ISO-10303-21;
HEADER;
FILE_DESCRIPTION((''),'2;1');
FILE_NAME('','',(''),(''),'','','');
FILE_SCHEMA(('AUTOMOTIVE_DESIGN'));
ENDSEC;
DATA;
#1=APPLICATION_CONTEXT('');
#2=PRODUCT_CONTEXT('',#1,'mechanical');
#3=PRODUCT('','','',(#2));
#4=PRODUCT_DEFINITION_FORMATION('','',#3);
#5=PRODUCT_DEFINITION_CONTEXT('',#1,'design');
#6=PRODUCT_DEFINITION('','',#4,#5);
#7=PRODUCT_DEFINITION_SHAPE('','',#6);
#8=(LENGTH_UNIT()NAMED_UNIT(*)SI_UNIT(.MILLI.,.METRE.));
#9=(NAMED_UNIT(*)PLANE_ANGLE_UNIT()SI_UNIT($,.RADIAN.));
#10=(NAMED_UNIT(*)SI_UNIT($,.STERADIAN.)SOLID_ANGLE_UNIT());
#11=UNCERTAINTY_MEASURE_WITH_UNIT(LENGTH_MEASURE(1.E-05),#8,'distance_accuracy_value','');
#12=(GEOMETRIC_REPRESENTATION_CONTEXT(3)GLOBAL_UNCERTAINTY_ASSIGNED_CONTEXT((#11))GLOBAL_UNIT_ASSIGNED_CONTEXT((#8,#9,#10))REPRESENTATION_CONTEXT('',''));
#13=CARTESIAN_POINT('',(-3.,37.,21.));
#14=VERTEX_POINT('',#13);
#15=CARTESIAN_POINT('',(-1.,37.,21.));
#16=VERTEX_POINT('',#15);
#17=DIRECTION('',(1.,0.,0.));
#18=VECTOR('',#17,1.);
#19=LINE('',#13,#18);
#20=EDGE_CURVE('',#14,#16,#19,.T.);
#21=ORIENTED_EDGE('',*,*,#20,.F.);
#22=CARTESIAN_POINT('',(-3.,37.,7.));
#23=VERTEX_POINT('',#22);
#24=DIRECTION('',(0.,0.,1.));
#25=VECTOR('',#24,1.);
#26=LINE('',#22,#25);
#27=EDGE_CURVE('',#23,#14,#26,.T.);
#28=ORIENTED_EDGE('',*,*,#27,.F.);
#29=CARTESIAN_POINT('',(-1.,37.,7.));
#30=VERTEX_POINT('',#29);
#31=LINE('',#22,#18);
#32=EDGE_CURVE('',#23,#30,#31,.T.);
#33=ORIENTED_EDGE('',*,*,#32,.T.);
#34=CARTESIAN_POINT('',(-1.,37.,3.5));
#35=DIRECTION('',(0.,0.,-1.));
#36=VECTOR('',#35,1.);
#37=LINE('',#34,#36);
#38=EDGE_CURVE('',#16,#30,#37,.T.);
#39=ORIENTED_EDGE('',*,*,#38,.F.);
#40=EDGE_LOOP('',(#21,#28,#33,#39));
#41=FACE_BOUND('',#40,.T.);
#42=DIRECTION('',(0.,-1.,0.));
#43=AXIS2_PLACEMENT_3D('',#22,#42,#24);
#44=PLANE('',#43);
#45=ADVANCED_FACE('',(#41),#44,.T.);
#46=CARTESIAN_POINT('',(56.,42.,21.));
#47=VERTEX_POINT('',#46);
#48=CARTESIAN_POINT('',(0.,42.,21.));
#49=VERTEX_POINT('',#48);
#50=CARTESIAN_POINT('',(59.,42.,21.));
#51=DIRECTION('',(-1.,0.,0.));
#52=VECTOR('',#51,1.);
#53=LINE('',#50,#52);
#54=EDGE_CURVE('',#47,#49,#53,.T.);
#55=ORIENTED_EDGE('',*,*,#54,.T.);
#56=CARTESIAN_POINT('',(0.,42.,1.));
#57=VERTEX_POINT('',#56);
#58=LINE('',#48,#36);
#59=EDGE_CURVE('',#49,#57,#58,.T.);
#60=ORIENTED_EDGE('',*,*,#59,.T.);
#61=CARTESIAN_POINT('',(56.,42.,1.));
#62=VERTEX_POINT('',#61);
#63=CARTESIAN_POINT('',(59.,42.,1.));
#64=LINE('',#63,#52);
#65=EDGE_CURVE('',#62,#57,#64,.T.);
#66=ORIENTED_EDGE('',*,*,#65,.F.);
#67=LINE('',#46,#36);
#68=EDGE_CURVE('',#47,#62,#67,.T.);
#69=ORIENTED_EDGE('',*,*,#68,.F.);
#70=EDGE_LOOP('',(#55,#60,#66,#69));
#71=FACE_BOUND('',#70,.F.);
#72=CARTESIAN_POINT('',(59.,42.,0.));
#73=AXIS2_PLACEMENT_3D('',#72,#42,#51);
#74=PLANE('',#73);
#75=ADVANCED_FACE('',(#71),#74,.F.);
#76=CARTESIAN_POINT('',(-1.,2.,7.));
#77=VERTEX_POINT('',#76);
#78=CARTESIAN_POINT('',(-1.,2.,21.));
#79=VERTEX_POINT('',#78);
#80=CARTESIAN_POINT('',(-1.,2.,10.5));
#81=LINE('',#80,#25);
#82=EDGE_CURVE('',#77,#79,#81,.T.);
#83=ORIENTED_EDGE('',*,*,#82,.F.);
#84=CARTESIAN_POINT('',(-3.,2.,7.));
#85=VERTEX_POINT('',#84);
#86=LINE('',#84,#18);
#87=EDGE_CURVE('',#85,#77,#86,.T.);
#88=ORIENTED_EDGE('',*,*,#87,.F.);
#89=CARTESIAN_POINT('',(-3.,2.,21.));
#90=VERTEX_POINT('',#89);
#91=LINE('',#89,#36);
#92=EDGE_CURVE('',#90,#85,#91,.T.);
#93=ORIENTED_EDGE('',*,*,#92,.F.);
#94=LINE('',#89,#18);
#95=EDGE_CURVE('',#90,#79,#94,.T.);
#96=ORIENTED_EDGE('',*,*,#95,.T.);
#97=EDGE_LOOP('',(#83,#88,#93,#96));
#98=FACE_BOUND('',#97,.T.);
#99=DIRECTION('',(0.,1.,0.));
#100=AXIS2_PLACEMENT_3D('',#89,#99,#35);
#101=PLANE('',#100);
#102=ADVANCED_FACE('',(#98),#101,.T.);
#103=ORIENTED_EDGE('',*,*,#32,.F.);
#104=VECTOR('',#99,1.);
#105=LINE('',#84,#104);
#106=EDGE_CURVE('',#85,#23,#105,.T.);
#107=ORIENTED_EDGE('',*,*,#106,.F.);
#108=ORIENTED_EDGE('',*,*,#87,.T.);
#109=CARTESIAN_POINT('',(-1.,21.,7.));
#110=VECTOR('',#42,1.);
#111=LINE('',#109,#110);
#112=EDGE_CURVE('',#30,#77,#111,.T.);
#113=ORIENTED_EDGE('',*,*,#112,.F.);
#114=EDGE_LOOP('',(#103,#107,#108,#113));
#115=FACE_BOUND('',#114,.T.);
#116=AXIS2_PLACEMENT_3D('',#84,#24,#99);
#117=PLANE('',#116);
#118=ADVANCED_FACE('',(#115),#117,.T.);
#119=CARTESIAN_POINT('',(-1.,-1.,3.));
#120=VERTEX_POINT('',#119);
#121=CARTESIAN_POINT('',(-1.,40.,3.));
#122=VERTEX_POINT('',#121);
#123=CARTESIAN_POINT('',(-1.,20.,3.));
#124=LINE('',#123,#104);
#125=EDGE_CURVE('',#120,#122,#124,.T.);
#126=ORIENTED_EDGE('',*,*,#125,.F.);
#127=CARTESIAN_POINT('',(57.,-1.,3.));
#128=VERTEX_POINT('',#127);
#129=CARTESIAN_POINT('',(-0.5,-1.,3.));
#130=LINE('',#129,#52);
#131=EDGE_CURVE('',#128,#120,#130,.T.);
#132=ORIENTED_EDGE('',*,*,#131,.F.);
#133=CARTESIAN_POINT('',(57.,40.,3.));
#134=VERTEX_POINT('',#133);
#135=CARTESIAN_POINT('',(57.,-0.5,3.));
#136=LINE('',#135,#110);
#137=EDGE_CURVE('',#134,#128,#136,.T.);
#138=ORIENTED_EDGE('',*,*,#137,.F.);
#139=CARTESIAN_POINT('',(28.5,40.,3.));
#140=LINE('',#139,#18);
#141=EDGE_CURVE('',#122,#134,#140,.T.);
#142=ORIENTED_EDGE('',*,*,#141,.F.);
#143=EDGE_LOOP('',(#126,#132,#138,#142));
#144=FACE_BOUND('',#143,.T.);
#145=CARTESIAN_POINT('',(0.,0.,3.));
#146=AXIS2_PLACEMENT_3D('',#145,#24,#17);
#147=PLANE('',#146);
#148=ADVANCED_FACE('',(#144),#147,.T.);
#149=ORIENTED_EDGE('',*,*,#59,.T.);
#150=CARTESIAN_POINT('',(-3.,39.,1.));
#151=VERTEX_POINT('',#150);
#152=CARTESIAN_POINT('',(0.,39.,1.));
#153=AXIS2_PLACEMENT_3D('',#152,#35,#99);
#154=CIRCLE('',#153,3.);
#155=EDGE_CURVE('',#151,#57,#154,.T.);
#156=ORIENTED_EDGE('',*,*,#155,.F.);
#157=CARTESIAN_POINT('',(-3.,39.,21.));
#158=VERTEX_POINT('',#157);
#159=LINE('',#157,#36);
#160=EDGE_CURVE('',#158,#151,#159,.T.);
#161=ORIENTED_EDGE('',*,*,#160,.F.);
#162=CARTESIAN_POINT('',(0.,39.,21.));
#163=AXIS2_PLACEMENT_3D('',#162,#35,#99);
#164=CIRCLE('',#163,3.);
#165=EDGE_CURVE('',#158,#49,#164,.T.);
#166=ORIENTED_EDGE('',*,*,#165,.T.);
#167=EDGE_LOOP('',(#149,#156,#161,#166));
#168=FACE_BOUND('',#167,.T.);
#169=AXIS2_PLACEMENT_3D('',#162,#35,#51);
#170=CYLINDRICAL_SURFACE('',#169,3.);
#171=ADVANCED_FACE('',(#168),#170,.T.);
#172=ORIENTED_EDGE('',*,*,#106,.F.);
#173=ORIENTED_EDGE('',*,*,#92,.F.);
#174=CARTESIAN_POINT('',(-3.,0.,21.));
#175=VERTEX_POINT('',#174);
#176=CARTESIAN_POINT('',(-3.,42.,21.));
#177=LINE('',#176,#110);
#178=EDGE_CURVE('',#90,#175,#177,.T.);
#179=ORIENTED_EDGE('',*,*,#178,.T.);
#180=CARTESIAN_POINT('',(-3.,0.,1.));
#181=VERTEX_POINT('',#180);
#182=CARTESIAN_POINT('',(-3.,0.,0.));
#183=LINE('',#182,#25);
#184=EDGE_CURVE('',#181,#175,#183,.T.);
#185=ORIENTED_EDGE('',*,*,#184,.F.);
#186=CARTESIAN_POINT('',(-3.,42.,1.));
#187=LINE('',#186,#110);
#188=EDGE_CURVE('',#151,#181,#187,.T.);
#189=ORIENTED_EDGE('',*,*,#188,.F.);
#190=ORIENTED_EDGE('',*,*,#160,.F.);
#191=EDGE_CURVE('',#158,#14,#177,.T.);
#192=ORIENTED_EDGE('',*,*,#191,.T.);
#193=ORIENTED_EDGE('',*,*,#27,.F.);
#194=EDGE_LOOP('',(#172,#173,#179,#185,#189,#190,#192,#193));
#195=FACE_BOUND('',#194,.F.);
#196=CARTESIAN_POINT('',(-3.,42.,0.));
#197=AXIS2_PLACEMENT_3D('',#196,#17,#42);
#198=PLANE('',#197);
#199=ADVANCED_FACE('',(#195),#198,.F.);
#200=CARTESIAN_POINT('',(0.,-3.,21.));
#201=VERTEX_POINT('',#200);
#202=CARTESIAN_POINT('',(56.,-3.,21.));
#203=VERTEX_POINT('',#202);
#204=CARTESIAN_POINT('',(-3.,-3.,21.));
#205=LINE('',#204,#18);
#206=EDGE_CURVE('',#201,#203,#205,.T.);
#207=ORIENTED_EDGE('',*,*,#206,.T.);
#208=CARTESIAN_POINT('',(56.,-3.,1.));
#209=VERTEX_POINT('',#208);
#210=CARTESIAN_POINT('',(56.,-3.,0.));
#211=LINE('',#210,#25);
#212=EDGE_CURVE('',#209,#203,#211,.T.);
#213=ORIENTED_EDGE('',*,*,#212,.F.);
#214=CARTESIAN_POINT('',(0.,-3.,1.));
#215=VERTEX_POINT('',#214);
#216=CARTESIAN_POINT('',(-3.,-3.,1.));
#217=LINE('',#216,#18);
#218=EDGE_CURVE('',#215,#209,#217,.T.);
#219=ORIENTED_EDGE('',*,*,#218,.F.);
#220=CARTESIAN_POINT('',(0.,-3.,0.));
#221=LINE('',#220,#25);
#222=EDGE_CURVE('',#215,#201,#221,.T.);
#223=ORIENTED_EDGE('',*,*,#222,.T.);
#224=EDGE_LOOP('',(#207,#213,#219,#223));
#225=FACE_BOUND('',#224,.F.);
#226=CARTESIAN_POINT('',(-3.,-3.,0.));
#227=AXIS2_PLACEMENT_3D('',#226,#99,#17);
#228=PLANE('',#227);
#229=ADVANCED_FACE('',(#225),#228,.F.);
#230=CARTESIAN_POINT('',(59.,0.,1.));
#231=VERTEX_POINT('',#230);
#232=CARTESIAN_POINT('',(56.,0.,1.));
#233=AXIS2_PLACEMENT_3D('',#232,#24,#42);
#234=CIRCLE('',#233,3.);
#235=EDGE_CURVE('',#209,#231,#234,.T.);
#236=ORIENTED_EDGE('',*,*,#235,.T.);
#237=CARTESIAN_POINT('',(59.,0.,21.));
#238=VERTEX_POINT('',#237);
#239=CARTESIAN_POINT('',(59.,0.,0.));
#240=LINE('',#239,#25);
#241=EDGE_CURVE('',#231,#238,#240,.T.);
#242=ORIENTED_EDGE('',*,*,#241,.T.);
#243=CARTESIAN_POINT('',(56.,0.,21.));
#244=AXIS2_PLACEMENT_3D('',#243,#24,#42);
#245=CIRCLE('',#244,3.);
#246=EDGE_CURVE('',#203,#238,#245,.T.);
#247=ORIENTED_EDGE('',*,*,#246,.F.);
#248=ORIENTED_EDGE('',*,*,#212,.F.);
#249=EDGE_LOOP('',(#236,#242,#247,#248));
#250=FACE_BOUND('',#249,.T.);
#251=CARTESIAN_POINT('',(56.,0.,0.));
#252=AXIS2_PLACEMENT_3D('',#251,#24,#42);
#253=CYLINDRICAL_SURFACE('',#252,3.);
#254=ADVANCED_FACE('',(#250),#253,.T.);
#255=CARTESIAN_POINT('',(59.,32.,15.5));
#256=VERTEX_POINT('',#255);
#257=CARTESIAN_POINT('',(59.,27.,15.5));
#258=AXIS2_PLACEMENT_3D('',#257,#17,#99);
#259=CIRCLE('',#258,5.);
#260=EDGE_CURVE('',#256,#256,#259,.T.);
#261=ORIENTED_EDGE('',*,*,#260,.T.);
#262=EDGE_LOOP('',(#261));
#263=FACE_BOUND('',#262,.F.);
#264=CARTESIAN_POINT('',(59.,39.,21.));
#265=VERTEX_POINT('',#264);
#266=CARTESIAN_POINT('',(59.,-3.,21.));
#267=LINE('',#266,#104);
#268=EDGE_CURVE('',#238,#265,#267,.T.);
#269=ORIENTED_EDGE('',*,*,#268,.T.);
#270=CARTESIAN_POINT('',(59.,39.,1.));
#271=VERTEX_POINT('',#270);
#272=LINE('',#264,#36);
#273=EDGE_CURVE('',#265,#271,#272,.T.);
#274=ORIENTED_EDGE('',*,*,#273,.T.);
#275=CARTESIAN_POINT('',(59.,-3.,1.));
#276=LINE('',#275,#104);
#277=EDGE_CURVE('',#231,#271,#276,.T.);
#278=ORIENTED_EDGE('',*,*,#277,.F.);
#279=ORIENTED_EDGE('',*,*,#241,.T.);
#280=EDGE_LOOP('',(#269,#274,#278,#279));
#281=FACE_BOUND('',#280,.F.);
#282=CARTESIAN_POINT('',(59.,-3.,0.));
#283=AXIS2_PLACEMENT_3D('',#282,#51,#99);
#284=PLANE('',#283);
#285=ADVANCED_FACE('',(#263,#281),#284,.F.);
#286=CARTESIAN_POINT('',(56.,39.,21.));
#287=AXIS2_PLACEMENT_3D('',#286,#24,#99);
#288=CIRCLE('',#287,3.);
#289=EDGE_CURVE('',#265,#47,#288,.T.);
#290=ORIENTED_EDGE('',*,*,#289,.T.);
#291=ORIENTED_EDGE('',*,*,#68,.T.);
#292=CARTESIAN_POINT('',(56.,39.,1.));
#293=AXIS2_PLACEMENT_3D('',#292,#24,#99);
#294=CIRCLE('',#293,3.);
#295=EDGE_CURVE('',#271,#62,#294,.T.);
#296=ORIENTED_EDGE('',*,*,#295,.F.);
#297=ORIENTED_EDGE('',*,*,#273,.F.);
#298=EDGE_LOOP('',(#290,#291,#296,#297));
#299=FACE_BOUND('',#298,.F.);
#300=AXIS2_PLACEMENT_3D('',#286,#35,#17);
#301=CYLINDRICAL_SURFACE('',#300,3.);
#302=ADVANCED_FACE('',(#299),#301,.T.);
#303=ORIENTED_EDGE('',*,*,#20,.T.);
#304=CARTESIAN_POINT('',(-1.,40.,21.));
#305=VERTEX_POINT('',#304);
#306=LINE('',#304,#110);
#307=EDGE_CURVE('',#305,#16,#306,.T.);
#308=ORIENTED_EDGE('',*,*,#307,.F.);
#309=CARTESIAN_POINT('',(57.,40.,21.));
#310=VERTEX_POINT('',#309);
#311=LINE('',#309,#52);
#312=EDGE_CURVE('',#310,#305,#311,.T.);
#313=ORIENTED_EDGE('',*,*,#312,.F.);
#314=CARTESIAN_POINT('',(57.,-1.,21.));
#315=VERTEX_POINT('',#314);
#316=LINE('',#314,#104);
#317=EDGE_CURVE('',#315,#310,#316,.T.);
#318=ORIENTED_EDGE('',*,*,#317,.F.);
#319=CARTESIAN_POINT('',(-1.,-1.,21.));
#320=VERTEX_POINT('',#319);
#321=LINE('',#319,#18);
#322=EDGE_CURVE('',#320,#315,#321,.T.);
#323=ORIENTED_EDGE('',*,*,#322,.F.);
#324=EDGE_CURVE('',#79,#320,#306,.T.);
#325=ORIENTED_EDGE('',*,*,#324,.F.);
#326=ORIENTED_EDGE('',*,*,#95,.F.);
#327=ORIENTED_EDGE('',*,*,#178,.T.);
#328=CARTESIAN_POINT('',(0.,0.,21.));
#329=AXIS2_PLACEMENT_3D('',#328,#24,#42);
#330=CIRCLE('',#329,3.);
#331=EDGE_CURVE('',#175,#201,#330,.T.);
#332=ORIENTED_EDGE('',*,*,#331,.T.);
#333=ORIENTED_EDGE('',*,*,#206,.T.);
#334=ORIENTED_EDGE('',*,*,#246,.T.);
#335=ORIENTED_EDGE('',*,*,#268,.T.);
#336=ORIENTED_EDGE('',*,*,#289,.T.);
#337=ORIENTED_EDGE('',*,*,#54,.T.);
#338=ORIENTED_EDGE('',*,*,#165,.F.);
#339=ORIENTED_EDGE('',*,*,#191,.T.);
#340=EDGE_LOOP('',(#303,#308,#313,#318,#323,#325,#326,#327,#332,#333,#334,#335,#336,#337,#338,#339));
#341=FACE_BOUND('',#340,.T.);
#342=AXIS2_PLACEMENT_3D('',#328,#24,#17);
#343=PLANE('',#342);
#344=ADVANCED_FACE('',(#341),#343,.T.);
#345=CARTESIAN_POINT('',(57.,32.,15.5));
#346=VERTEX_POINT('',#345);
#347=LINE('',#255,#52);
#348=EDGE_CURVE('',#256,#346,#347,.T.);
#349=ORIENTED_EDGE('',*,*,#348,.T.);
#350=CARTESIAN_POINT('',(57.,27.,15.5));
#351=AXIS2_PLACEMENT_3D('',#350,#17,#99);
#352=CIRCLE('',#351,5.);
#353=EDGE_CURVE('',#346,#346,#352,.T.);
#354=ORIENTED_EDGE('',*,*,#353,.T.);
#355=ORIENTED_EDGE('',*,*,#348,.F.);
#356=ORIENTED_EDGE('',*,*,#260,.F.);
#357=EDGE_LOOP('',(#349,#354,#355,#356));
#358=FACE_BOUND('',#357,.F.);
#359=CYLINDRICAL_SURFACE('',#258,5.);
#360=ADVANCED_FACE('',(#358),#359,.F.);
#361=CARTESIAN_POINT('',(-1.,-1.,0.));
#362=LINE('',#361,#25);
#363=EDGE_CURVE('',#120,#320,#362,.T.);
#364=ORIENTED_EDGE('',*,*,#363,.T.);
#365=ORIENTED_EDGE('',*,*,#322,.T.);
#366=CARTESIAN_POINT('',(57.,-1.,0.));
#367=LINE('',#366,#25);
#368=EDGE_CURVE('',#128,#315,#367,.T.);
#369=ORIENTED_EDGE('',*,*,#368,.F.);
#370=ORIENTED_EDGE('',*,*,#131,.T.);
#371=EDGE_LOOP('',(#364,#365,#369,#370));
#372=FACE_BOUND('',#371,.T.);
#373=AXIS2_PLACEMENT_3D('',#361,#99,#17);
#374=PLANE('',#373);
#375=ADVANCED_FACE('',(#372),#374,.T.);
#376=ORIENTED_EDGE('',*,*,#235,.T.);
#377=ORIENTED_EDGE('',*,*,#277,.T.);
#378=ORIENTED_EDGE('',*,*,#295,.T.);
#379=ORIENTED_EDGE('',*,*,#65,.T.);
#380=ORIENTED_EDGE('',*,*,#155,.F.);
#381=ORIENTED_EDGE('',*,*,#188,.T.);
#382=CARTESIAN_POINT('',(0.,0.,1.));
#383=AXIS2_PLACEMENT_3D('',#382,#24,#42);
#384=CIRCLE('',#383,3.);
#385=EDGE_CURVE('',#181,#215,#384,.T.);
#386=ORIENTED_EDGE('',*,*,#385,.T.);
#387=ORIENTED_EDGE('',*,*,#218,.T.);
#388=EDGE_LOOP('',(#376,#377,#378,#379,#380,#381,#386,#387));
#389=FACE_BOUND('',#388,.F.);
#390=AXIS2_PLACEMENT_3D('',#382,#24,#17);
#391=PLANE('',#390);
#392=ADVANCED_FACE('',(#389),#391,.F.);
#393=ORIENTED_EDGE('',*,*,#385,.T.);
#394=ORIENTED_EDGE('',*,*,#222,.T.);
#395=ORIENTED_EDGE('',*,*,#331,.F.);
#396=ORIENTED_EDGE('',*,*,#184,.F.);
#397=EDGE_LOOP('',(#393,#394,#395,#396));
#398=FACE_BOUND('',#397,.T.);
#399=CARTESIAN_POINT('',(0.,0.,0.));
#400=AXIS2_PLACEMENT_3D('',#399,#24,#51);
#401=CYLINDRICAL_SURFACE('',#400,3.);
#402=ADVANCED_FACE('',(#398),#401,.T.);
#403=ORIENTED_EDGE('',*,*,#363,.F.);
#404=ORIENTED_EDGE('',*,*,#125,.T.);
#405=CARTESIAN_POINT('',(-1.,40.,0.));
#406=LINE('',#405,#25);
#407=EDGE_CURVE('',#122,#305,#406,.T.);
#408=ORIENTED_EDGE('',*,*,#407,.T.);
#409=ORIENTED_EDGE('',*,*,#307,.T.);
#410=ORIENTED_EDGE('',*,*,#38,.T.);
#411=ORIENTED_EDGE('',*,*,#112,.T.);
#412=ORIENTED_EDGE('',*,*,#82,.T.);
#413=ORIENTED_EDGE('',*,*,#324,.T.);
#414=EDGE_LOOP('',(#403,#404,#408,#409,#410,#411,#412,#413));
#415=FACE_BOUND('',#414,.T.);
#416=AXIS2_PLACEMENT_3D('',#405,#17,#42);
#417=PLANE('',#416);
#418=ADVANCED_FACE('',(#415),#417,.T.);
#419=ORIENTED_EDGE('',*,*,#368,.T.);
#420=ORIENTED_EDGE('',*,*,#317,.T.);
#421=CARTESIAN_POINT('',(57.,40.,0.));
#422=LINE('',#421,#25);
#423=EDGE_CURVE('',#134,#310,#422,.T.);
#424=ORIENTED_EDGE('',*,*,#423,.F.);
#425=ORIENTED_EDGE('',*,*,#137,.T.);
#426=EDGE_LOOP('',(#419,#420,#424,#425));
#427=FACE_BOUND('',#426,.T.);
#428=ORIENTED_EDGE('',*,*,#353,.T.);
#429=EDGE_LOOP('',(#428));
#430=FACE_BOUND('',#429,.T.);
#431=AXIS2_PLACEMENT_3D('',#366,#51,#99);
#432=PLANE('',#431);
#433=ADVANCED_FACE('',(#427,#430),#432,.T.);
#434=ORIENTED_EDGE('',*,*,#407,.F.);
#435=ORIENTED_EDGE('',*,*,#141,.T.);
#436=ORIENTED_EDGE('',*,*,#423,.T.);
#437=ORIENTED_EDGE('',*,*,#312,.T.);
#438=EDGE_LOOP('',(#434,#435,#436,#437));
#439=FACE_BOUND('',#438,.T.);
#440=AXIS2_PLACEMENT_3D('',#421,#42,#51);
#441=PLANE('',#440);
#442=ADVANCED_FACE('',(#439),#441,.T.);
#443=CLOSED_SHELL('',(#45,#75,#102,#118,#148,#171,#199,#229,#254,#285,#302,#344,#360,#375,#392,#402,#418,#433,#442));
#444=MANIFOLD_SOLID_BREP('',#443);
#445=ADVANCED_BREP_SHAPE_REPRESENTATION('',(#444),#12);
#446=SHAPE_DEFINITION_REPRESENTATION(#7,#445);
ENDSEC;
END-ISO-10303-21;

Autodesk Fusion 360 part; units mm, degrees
sketch "Sketch1" plane through (0, 0, 0) normal (0, 0, 1) x (1, 0, 0)
  line L0 (-1, -1) -> (57, -1)
  line L1 (57, -1) -> (57, 40)
  line L2 (57, 40) -> (-1, 40)
  line L3 (-1, 40) -> (-1, -1)
  line L4 (-3, -3) -> (59, -3)
  line L5 (59, -3) -> (59, 42)
  line L6 (59, 42) -> (-3, 42)
  line L7 (-3, 42) -> (-3, -3)
extrude "Extrude1" add sketch "Sketch1" along normal blind 3 contours L0 L1 L2 L3 | L4 L5 L6 L7
extrude "Extrude2" add sketch "Sketch1" along normal blind 21
sketch "Sketch2" plane through (59, 0, 0) normal (1, 0, 0) x (0, 1, 0)
  line L0 (-3, 0) -> (42, 0)
  line L1 (42, 0) -> (42, 21)
  line L2 (42, 21) -> (-3, 21)
  line L3 (-3, 21) -> (-3, 0)
  line L4 (42, 0) -> (42, 15.5) construction
  line L5 (42, 15.5) -> (27, 15.5) construction
  circle A0 centre (27, 15.5) radius 5
  dimension "d11" = 15
extrude "Extrude3" cut sketch "Sketch2" against normal blind 3 contours A0
sketch "Sketch3" plane through (-3, 0, 0) normal (-1, 0, 0) x (0, -1, 0)
  line L0 (-42, 0) -> (3, 0)
  line L1 (3, 0) -> (3, 21)
  line L2 (3, 21) -> (-42, 21)
  line L3 (-42, 21) -> (-42, 0)
  line L4 (-37, 7) -> (-37, 21)
  line L5 (-37, 21) -> (-2, 21)
  line L6 (-2, 21) -> (-2, 7)
  line L7 (-2, 7) -> (-37, 7)
extrude "Extrude4" cut sketch "Sketch3" against normal blind 3 contours L2 L4 L5 L6 L7
fillet "Fillet1" radius 3 4 edges at (59, -3, 10.5) (59, 42, 10.5) (-3, 42, 10.5) (-3, -3, 10.5)
sketch "Sketch4" plane through (0, 0, 3) normal (0, 0, 1) x (-1, 0, 0)
  line L0 (1, 1) -> (-57, 1)
  line L1 (-57, 1) -> (-57, -40)
  line L2 (-57, -40) -> (1, -40)
  line L3 (1, -40) -> (1, 1)
  point P0 (-29.8405, -19.6761)
extrude "Extrude5" cut 1 faces at (37.3333, 12, 0) along direction (0, 0, 1) blind 1
sketch "Sketch5" plane through (0, 0, 3) normal (0, 0, 1) x (-1, 0, 0)
  line L0 (-8.2346, 0) -> (-7.3686, -1.5)
  line L1 (-7.3686, -1.5) -> (-5.0592, -1.5)
  line L2 (-5.0592, -1.5) -> (-4.1932, 0)
  line L3 (-0.7291, 0) -> (-3.0385, 0)
  line L4 (-3.0385, 0) -> (-4.1932, -2)
  line L5 (-4.1932, -2) -> (-3.0385, -4)
  line L6 (-3.0385, -4) -> (-0.7291, -4)
  line L7 (-0.7291, -4) -> (0, -2.7372)
  line L8 (0, -1.2628) -> (-0.7291, 0)
  line L9 (-16.8949, 0) -> (-16.0289, -1.5)
  line L10 (-16.0289, -1.5) -> (-13.7195, -1.5)
  line L11 (-13.7195, -1.5) -> (-12.8534, 0)
  line L12 (-9.3893, 0) -> (-11.6987, 0)
  line L13 (-11.6987, 0) -> (-12.8534, -2)
  line L14 (-12.8534, -2) -> (-11.6987, -4)
  line L15 (-11.6987, -4) -> (-9.3893, -4)
  line L16 (-9.3893, -4) -> (-8.2346, -2)
  line L17 (-8.2346, -2) -> (-9.3893, 0)
  line L18 (-5.0592, -2.5) -> (-7.3686, -2.5)
  line L19 (-7.3686, -2.5) -> (-8.5233, -4.5)
  line L20 (-8.5233, -4.5) -> (-7.3686, -6.5)
  line L21 (-7.3686, -6.5) -> (-5.0592, -6.5)
  line L22 (-5.0592, -6.5) -> (-3.9045, -4.5)
  line L23 (-3.9045, -4.5) -> (-5.0592, -2.5)
  line L24 (-0.7291, -5) -> (-3.0385, -5)
  line L25 (-3.0385, -5) -> (-4.1932, -7)
  line L26 (-4.1932, -7) -> (-3.0385, -9)
  line L27 (-3.0385, -9) -> (-0.7291, -9)
  line L28 (-0.7291, -9) -> (0, -7.7372)
  line L29 (0, -6.2628) -> (-0.7291, -5)
  line L30 (-25.5551, 0) -> (-24.6891, -1.5)
  line L31 (-24.6891, -1.5) -> (-22.3797, -1.5)
  line L32 (-22.3797, -1.5) -> (-21.5137, 0)
  line L33 (-18.0496, 0) -> (-20.359, 0)
  line L34 (-20.359, 0) -> (-21.5137, -2)
  line L35 (-21.5137, -2) -> (-20.359, -4)
  line L36 (-20.359, -4) -> (-18.0496, -4)
  line L37 (-18.0496, -4) -> (-16.8949, -2)
  line L38 (-16.8949, -2) -> (-18.0496, 0)
  line L39 (-13.7195, -2.5) -> (-16.0289, -2.5)
  line L40 (-16.0289, -2.5) -> (-17.1836, -4.5)
  line L41 (-17.1836, -4.5) -> (-16.0289, -6.5)
  line L42 (-16.0289, -6.5) -> (-13.7195, -6.5)
  line L43 (-13.7195, -6.5) -> (-12.5648, -4.5)
  line L44 (-12.5648, -4.5) -> (-13.7195, -2.5)
  line L45 (-9.3893, -5) -> (-11.6987, -5)
  line L46 (-11.6987, -5) -> (-12.8534, -7)
  line L47 (-12.8534, -7) -> (-11.6987, -9)
  line L48 (-11.6987, -9) -> (-9.3893, -9)
  line L49 (-9.3893, -9) -> (-8.2346, -7)
  line L50 (-8.2346, -7) -> (-9.3893, -5)
  line L51 (-5.0592, -7.5) -> (-7.3686, -7.5)
  line L52 (-7.3686, -7.5) -> (-8.5233, -9.5)
  line L53 (-8.5233, -9.5) -> (-7.3686, -11.5)
  line L54 (-7.3686, -11.5) -> (-5.0592, -11.5)
  line L55 (-5.0592, -11.5) -> (-3.9045, -9.5)
  line L56 (-3.9045, -9.5) -> (-5.0592, -7.5)
  line L57 (-0.7291, -10) -> (-3.0385, -10)
  line L58 (-3.0385, -10) -> (-4.1932, -12)
  line L59 (-4.1932, -12) -> (-3.0385, -14)
  line L60 (-3.0385, -14) -> (-0.7291, -14)
  line L61 (-0.7291, -14) -> (0, -12.7372)
  line L62 (0, -11.2628) -> (-0.7291, -10)
  line L63 (-34.2154, 0) -> (-33.3494, -1.5)
  line L64 (-33.3494, -1.5) -> (-31.04, -1.5)
  line L65 (-31.04, -1.5) -> (-30.1739, 0)
  line L66 (-26.7098, 0) -> (-29.0192, 0)
  line L67 (-29.0192, 0) -> (-30.1739, -2)
  line L68 (-30.1739, -2) -> (-29.0192, -4)
  line L69 (-29.0192, -4) -> (-26.7098, -4)
  line L70 (-26.7098, -4) -> (-25.5551, -2)
  line L71 (-25.5551, -2) -> (-26.7098, 0)
  line L72 (-22.3797, -2.5) -> (-24.6891, -2.5)
  line L73 (-24.6891, -2.5) -> (-25.8438, -4.5)
  line L74 (-25.8438, -4.5) -> (-24.6891, -6.5)
  line L75 (-24.6891, -6.5) -> (-22.3797, -6.5)
  line L76 (-22.3797, -6.5) -> (-21.225, -4.5)
  line L77 (-21.225, -4.5) -> (-22.3797, -2.5)
  line L78 (-18.0496, -5) -> (-20.359, -5)
  line L79 (-20.359, -5) -> (-21.5137, -7)
  line L80 (-21.5137, -7) -> (-20.359, -9)
  line L81 (-20.359, -9) -> (-18.0496, -9)
  line L82 (-18.0496, -9) -> (-16.8949, -7)
  line L83 (-16.8949, -7) -> (-18.0496, -5)
  line L84 (-13.7195, -7.5) -> (-16.0289, -7.5)
  line L85 (-16.0289, -7.5) -> (-17.1836, -9.5)
  line L86 (-17.1836, -9.5) -> (-16.0289, -11.5)
  line L87 (-16.0289, -11.5) -> (-13.7195, -11.5)
  line L88 (-13.7195, -11.5) -> (-12.5648, -9.5)
  line L89 (-12.5648, -9.5) -> (-13.7195, -7.5)
  line L90 (-9.3893, -10) -> (-11.6987, -10)
  line L91 (-11.6987, -10) -> (-12.8534, -12)
  line L92 (-12.8534, -12) -> (-11.6987, -14)
  line L93 (-11.6987, -14) -> (-9.3893, -14)
  line L94 (-9.3893, -14) -> (-8.2346, -12)
  line L95 (-8.2346, -12) -> (-9.3893, -10)
  line L96 (-5.0592, -12.5) -> (-7.3686, -12.5)
  line L97 (-7.3686, -12.5) -> (-8.5233, -14.5)
  line L98 (-8.5233, -14.5) -> (-7.3686, -16.5)
  line L99 (-7.3686, -16.5) -> (-5.0592, -16.5)
  line L100 (-5.0592, -16.5) -> (-3.9045, -14.5)
  line L101 (-3.9045, -14.5) -> (-5.0592, -12.5)
  line L102 (-0.7291, -15) -> (-3.0385, -15)
  line L103 (-3.0385, -15) -> (-4.1932, -17)
  line L104 (-4.1932, -17) -> (-3.0385, -19)
  line L105 (-3.0385, -19) -> (-0.7291, -19)
  line L106 (-0.7291, -19) -> (0, -17.7372)
  line L107 (0, -16.2628) -> (-0.7291, -15)
  line L108 (-42.8756, 0) -> (-42.0096, -1.5)
  line L109 (-42.0096, -1.5) -> (-39.7002, -1.5)
  line L110 (-39.7002, -1.5) -> (-38.8342, 0)
  line L111 (-35.3701, 0) -> (-37.6795, 0)
  line L112 (-37.6795, 0) -> (-38.8342, -2)
  line L113 (-38.8342, -2) -> (-37.6795, -4)
  line L114 (-37.6795, -4) -> (-35.3701, -4)
  line L115 (-35.3701, -4) -> (-34.2154, -2)
  line L116 (-34.2154, -2) -> (-35.3701, 0)
  line L117 (-31.04, -2.5) -> (-33.3494, -2.5)
  line L118 (-33.3494, -2.5) -> (-34.5041, -4.5)
  line L119 (-34.5041, -4.5) -> (-33.3494, -6.5)
  line L120 (-33.3494, -6.5) -> (-31.04, -6.5)
  line L121 (-31.04, -6.5) -> (-29.8853, -4.5)
  line L122 (-29.8853, -4.5) -> (-31.04, -2.5)
  line L123 (-26.7098, -5) -> (-29.0192, -5)
  line L124 (-29.0192, -5) -> (-30.1739, -7)
  line L125 (-30.1739, -7) -> (-29.0192, -9)
  line L126 (-29.0192, -9) -> (-26.7098, -9)
  line L127 (-26.7098, -9) -> (-25.5551, -7)
  line L128 (-25.5551, -7) -> (-26.7098, -5)
  line L129 (-22.3797, -7.5) -> (-24.6891, -7.5)
  line L130 (-24.6891, -7.5) -> (-25.8438, -9.5)
  line L131 (-25.8438, -9.5) -> (-24.6891, -11.5)
  line L132 (-24.6891, -11.5) -> (-22.3797, -11.5)
  line L133 (-22.3797, -11.5) -> (-21.225, -9.5)
  line L134 (-21.225, -9.5) -> (-22.3797, -7.5)
  line L135 (-18.0496, -10) -> (-20.359, -10)
  line L136 (-20.359, -10) -> (-21.5137, -12)
  line L137 (-21.5137, -12) -> (-20.359, -14)
  line L138 (-20.359, -14) -> (-18.0496, -14)
  line L139 (-18.0496, -14) -> (-16.8949, -12)
  line L140 (-16.8949, -12) -> (-18.0496, -10)
  line L141 (-13.7195, -12.5) -> (-16.0289, -12.5)
  line L142 (-16.0289, -12.5) -> (-17.1836, -14.5)
  line L143 (-17.1836, -14.5) -> (-16.0289, -16.5)
  line L144 (-16.0289, -16.5) -> (-13.7195, -16.5)
  line L145 (-13.7195, -16.5) -> (-12.5648, -14.5)
  line L146 (-12.5648, -14.5) -> (-13.7195, -12.5)
  line L147 (-9.3893, -15) -> (-11.6987, -15)
  line L148 (-11.6987, -15) -> (-12.8534, -17)
  line L149 (-12.8534, -17) -> (-11.6987, -19)
  line L150 (-11.6987, -19) -> (-9.3893, -19)
  line L151 (-9.3893, -19) -> (-8.2346, -17)
  line L152 (-8.2346, -17) -> (-9.3893, -15)
  line L153 (-5.0592, -17.5) -> (-7.3686, -17.5)
  line L154 (-7.3686, -17.5) -> (-8.5233, -19.5)
  line L155 (-8.5233, -19.5) -> (-7.3686, -21.5)
  line L156 (-7.3686, -21.5) -> (-5.0592, -21.5)
  line L157 (-5.0592, -21.5) -> (-3.9045, -19.5)
  line L158 (-3.9045, -19.5) -> (-5.0592, -17.5)
  line L159 (-0.7291, -20) -> (-3.0385, -20)
  line L160 (-3.0385, -20) -> (-4.1932, -22)
  line L161 (-4.1932, -22) -> (-3.0385, -24)
  line L162 (-3.0385, -24) -> (-0.7291, -24)
  line L163 (-0.7291, -24) -> (0, -22.7372)
  line L164 (0, -21.2628) -> (-0.7291, -20)
  line L165 (-51.5359, 0) -> (-50.6699, -1.5)
  line L166 (-50.6699, -1.5) -> (-48.3605, -1.5)
  line L167 (-48.3605, -1.5) -> (-47.4944, 0)
  line L168 (-44.0303, 0) -> (-46.3397, 0)
  line L169 (-46.3397, 0) -> (-47.4944, -2)
  line L170 (-47.4944, -2) -> (-46.3397, -4)
  line L171 (-46.3397, -4) -> (-44.0303, -4)
  line L172 (-44.0303, -4) -> (-42.8756, -2)
  line L173 (-42.8756, -2) -> (-44.0303, 0)
  line L174 (-39.7002, -2.5) -> (-42.0096, -2.5)
  line L175 (-42.0096, -2.5) -> (-43.1643, -4.5)
  line L176 (-43.1643, -4.5) -> (-42.0096, -6.5)
  line L177 (-42.0096, -6.5) -> (-39.7002, -6.5)
  line L178 (-39.7002, -6.5) -> (-38.5455, -4.5)
  line L179 (-38.5455, -4.5) -> (-39.7002, -2.5)
  line L180 (-35.3701, -5) -> (-37.6795, -5)
  line L181 (-37.6795, -5) -> (-38.8342, -7)
  line L182 (-38.8342, -7) -> (-37.6795, -9)
  line L183 (-37.6795, -9) -> (-35.3701, -9)
  line L184 (-35.3701, -9) -> (-34.2154, -7)
  line L185 (-34.2154, -7) -> (-35.3701, -5)
  line L186 (-31.04, -7.5) -> (-33.3494, -7.5)
  line L187 (-33.3494, -7.5) -> (-34.5041, -9.5)
  line L188 (-34.5041, -9.5) -> (-33.3494, -11.5)
  line L189 (-33.3494, -11.5) -> (-31.04, -11.5)
  line L190 (-31.04, -11.5) -> (-29.8853, -9.5)
  line L191 (-29.8853, -9.5) -> (-31.04, -7.5)
  line L192 (-26.7098, -10) -> (-29.0192, -10)
  line L193 (-29.0192, -10) -> (-30.1739, -12)
  line L194 (-30.1739, -12) -> (-29.0192, -14)
  line L195 (-29.0192, -14) -> (-26.7098, -14)
  line L196 (-26.7098, -14) -> (-25.5551, -12)
  line L197 (-25.5551, -12) -> (-26.7098, -10)
  line L198 (-22.3797, -12.5) -> (-24.6891, -12.5)
  line L199 (-24.6891, -12.5) -> (-25.8438, -14.5)
  line L200 (-25.8438, -14.5) -> (-24.6891, -16.5)
  line L201 (-24.6891, -16.5) -> (-22.3797, -16.5)
  line L202 (-22.3797, -16.5) -> (-21.225, -14.5)
  line L203 (-21.225, -14.5) -> (-22.3797, -12.5)
  line L204 (-18.0496, -15) -> (-20.359, -15)
  line L205 (-20.359, -15) -> (-21.5137, -17)
  line L206 (-21.5137, -17) -> (-20.359, -19)
  line L207 (-20.359, -19) -> (-18.0496, -19)
  line L208 (-18.0496, -19) -> (-16.8949, -17)
  line L209 (-16.8949, -17) -> (-18.0496, -15)
  line L210 (-13.7195, -17.5) -> (-16.0289, -17.5)
  line L211 (-16.0289, -17.5) -> (-17.1836, -19.5)
  line L212 (-17.1836, -19.5) -> (-16.0289, -21.5)
  line L213 (-16.0289, -21.5) -> (-13.7195, -21.5)
  line L214 (-13.7195, -21.5) -> (-12.5648, -19.5)
  line L215 (-12.5648, -19.5) -> (-13.7195, -17.5)
  line L216 (-9.3893, -20) -> (-11.6987, -20)
  line L217 (-11.6987, -20) -> (-12.8534, -22)
  line L218 (-12.8534, -22) -> (-11.6987, -24)
  line L219 (-11.6987, -24) -> (-9.3893, -24)
  line L220 (-9.3893, -24) -> (-8.2346, -22)
  line L221 (-8.2346, -22) -> (-9.3893, -20)
  line L222 (-5.0592, -22.5) -> (-7.3686, -22.5)
  line L223 (-7.3686, -22.5) -> (-8.5233, -24.5)
  line L224 (-8.5233, -24.5) -> (-7.3686, -26.5)
  line L225 (-7.3686, -26.5) -> (-5.0592, -26.5)
  line L226 (-5.0592, -26.5) -> (-3.9045, -24.5)
  line L227 (-3.9045, -24.5) -> (-5.0592, -22.5)
  line L228 (-0.7291, -25) -> (-3.0385, -25)
  line L229 (-3.0385, -25) -> (-4.1932, -27)
  line L230 (-4.1932, -27) -> (-3.0385, -29)
  line L231 (-3.0385, -29) -> (-0.7291, -29)
  line L232 (-0.7291, -29) -> (0, -27.7372)
  line L233 (0, -26.2628) -> (-0.7291, -25)
  line L234 (-52.6906, 0) -> (-55, 0)
  line L235 (-55, 0) -> (-56, -1.7321)
  line L236 (-56, -2.2679) -> (-55, -4)
  line L237 (-55, -4) -> (-52.6906, -4)
  line L238 (-52.6906, -4) -> (-51.5359, -2)
  line L239 (-51.5359, -2) -> (-52.6906, 0)
  line L240 (-48.3605, -2.5) -> (-50.6699, -2.5)
  line L241 (-50.6699, -2.5) -> (-51.8246, -4.5)
  line L242 (-51.8246, -4.5) -> (-50.6699, -6.5)
  line L243 (-50.6699, -6.5) -> (-48.3605, -6.5)
  line L244 (-48.3605, -6.5) -> (-47.2058, -4.5)
  line L245 (-47.2058, -4.5) -> (-48.3605, -2.5)
  line L246 (-44.0303, -5) -> (-46.3397, -5)
  line L247 (-46.3397, -5) -> (-47.4944, -7)
  line L248 (-47.4944, -7) -> (-46.3397, -9)
  line L249 (-46.3397, -9) -> (-44.0303, -9)
  line L250 (-44.0303, -9) -> (-42.8756, -7)
  line L251 (-42.8756, -7) -> (-44.0303, -5)
  line L252 (-39.7002, -7.5) -> (-42.0096, -7.5)
  line L253 (-42.0096, -7.5) -> (-43.1643, -9.5)
  line L254 (-43.1643, -9.5) -> (-42.0096, -11.5)
  line L255 (-42.0096, -11.5) -> (-39.7002, -11.5)
  line L256 (-39.7002, -11.5) -> (-38.5455, -9.5)
  line L257 (-38.5455, -9.5) -> (-39.7002, -7.5)
  line L258 (-35.3701, -10) -> (-37.6795, -10)
  line L259 (-37.6795, -10) -> (-38.8342, -12)
  line L260 (-38.8342, -12) -> (-37.6795, -14)
  line L261 (-37.6795, -14) -> (-35.3701, -14)
  line L262 (-35.3701, -14) -> (-34.2154, -12)
  line L263 (-34.2154, -12) -> (-35.3701, -10)
  line L264 (-31.04, -12.5) -> (-33.3494, -12.5)
  line L265 (-33.3494, -12.5) -> (-34.5041, -14.5)
  line L266 (-34.5041, -14.5) -> (-33.3494, -16.5)
  line L267 (-33.3494, -16.5) -> (-31.04, -16.5)
  line L268 (-31.04, -16.5) -> (-29.8853, -14.5)
  line L269 (-29.8853, -14.5) -> (-31.04, -12.5)
  line L270 (-26.7098, -15) -> (-29.0192, -15)
  line L271 (-29.0192, -15) -> (-30.1739, -17)
  line L272 (-30.1739, -17) -> (-29.0192, -19)
  line L273 (-29.0192, -19) -> (-26.7098, -19)
  line L274 (-26.7098, -19) -> (-25.5551, -17)
  line L275 (-25.5551, -17) -> (-26.7098, -15)
  line L276 (-22.3797, -17.5) -> (-24.6891, -17.5)
  line L277 (-24.6891, -17.5) -> (-25.8438, -19.5)
  line L278 (-25.8438, -19.5) -> (-24.6891, -21.5)
  line L279 (-24.6891, -21.5) -> (-22.3797, -21.5)
  line L280 (-22.3797, -21.5) -> (-21.225, -19.5)
  line L281 (-21.225, -19.5) -> (-22.3797, -17.5)
  line L282 (-18.0496, -20) -> (-20.359, -20)
  line L283 (-20.359, -20) -> (-21.5137, -22)
  line L284 (-21.5137, -22) -> (-20.359, -24)
  line L285 (-20.359, -24) -> (-18.0496, -24)
  line L286 (-18.0496, -24) -> (-16.8949, -22)
  line L287 (-16.8949, -22) -> (-18.0496, -20)
  line L288 (-13.7195, -22.5) -> (-16.0289, -22.5)
  line L289 (-16.0289, -22.5) -> (-17.1836, -24.5)
  line L290 (-17.1836, -24.5) -> (-16.0289, -26.5)
  line L291 (-16.0289, -26.5) -> (-13.7195, -26.5)
  line L292 (-13.7195, -26.5) -> (-12.5648, -24.5)
  line L293 (-12.5648, -24.5) -> (-13.7195, -22.5)
  line L294 (-9.3893, -25) -> (-11.6987, -25)
  line L295 (-11.6987, -25) -> (-12.8534, -27)
  line L296 (-12.8534, -27) -> (-11.6987, -29)
  line L297 (-11.6987, -29) -> (-9.3893, -29)
  line L298 (-9.3893, -29) -> (-8.2346, -27)
  line L299 (-8.2346, -27) -> (-9.3893, -25)
  line L300 (-5.0592, -27.5) -> (-7.3686, -27.5)
  line L301 (-7.3686, -27.5) -> (-8.5233, -29.5)
  line L302 (-8.5233, -29.5) -> (-7.3686, -31.5)
  line L303 (-7.3686, -31.5) -> (-5.0592, -31.5)
  line L304 (-5.0592, -31.5) -> (-3.9045, -29.5)
  line L305 (-3.9045, -29.5) -> (-5.0592, -27.5)
  line L306 (-0.7291, -30) -> (-3.0385, -30)
  line L307 (-3.0385, -30) -> (-4.1932, -32)
  line L308 (-4.1932, -32) -> (-3.0385, -34)
  line L309 (-3.0385, -34) -> (-0.7291, -34)
  line L310 (-0.7291, -34) -> (0, -32.7372)
  line L311 (0, -31.2628) -> (-0.7291, -30)
  line L312 (-52.6906, -5) -> (-55, -5)
  line L313 (-55, -5) -> (-56, -6.7321)
  line L314 (-56, -7.2679) -> (-55, -9)
  line L315 (-55, -9) -> (-52.6906, -9)
  line L316 (-52.6906, -9) -> (-51.5359, -7)
  line L317 (-51.5359, -7) -> (-52.6906, -5)
  line L318 (-48.3605, -7.5) -> (-50.6699, -7.5)
  line L319 (-50.6699, -7.5) -> (-51.8246, -9.5)
  line L320 (-51.8246, -9.5) -> (-50.6699, -11.5)
  line L321 (-50.6699, -11.5) -> (-48.3605, -11.5)
  line L322 (-48.3605, -11.5) -> (-47.2058, -9.5)
  line L323 (-47.2058, -9.5) -> (-48.3605, -7.5)
  line L324 (-44.0303, -10) -> (-46.3397, -10)
  line L325 (-46.3397, -10) -> (-47.4944, -12)
  line L326 (-47.4944, -12) -> (-46.3397, -14)
  line L327 (-46.3397, -14) -> (-44.0303, -14)
  line L328 (-44.0303, -14) -> (-42.8756, -12)
  line L329 (-42.8756, -12) -> (-44.0303, -10)
  line L330 (-39.7002, -12.5) -> (-42.0096, -12.5)
  line L331 (-42.0096, -12.5) -> (-43.1643, -14.5)
  line L332 (-43.1643, -14.5) -> (-42.0096, -16.5)
  line L333 (-42.0096, -16.5) -> (-39.7002, -16.5)
  line L334 (-39.7002, -16.5) -> (-38.5455, -14.5)
  line L335 (-38.5455, -14.5) -> (-39.7002, -12.5)
  line L336 (-35.3701, -15) -> (-37.6795, -15)
  line L337 (-37.6795, -15) -> (-38.8342, -17)
  line L338 (-38.8342, -17) -> (-37.6795, -19)
  line L339 (-37.6795, -19) -> (-35.3701, -19)
  line L340 (-35.3701, -19) -> (-34.2154, -17)
  line L341 (-34.2154, -17) -> (-35.3701, -15)
  line L342 (-31.04, -17.5) -> (-33.3494, -17.5)
  line L343 (-33.3494, -17.5) -> (-34.5041, -19.5)
  line L344 (-34.5041, -19.5) -> (-33.3494, -21.5)
  line L345 (-33.3494, -21.5) -> (-31.04, -21.5)
  line L346 (-31.04, -21.5) -> (-29.8853, -19.5)
  line L347 (-29.8853, -19.5) -> (-31.04, -17.5)
  line L348 (-26.7098, -20) -> (-29.0192, -20)
  line L349 (-29.0192, -20) -> (-30.1739, -22)
  line L350 (-30.1739, -22) -> (-29.0192, -24)
  line L351 (-29.0192, -24) -> (-26.7098, -24)
  line L352 (-26.7098, -24) -> (-25.5551, -22)
  line L353 (-25.5551, -22) -> (-26.7098, -20)
  line L354 (-22.3797, -22.5) -> (-24.6891, -22.5)
  line L355 (-24.6891, -22.5) -> (-25.8438, -24.5)
  line L356 (-25.8438, -24.5) -> (-24.6891, -26.5)
  line L357 (-24.6891, -26.5) -> (-22.3797, -26.5)
  line L358 (-22.3797, -26.5) -> (-21.225, -24.5)
  line L359 (-21.225, -24.5) -> (-22.3797, -22.5)
  line L360 (-18.0496, -25) -> (-20.359, -25)
  line L361 (-20.359, -25) -> (-21.5137, -27)
  line L362 (-21.5137, -27) -> (-20.359, -29)
  line L363 (-20.359, -29) -> (-18.0496, -29)
  line L364 (-18.0496, -29) -> (-16.8949, -27)
  line L365 (-16.8949, -27) -> (-18.0496, -25)
  line L366 (-13.7195, -27.5) -> (-16.0289, -27.5)
  line L367 (-16.0289, -27.5) -> (-17.1836, -29.5)
  line L368 (-17.1836, -29.5) -> (-16.0289, -31.5)
  line L369 (-16.0289, -31.5) -> (-13.7195, -31.5)
  line L370 (-13.7195, -31.5) -> (-12.5648, -29.5)
  line L371 (-12.5648, -29.5) -> (-13.7195, -27.5)
  line L372 (-9.3893, -30) -> (-11.6987, -30)
  line L373 (-11.6987, -30) -> (-12.8534, -32)
  line L374 (-12.8534, -32) -> (-11.6987, -34)
  line L375 (-11.6987, -34) -> (-9.3893, -34)
  line L376 (-9.3893, -34) -> (-8.2346, -32)
  line L377 (-8.2346, -32) -> (-9.3893, -30)
  line L378 (-5.0592, -32.5) -> (-7.3686, -32.5)
  line L379 (-7.3686, -32.5) -> (-8.5233, -34.5)
  line L380 (-8.5233, -34.5) -> (-7.3686, -36.5)
  line L381 (-7.3686, -36.5) -> (-5.0592, -36.5)
  line L382 (-5.0592, -36.5) -> (-3.9045, -34.5)
  line L383 (-3.9045, -34.5) -> (-5.0592, -32.5)
  line L384 (-0.7291, -35) -> (-3.0385, -35)
  line L385 (-3.0385, -35) -> (-4.1932, -37)
  line L386 (-4.1932, -37) -> (-3.0385, -39)
  line L387 (-3.0385, -39) -> (-0.7291, -39)
  line L388 (-0.7291, -39) -> (0, -37.7372)
  line L389 (0, -36.2628) -> (-0.7291, -35)
  line L390 (-52.6906, -10) -> (-55, -10)
  line L391 (-55, -10) -> (-56, -11.7321)
  line L392 (-56, -12.2679) -> (-55, -14)
  line L393 (-55, -14) -> (-52.6906, -14)
  line L394 (-52.6906, -14) -> (-51.5359, -12)
  line L395 (-51.5359, -12) -> (-52.6906, -10)
  line L396 (-48.3605, -12.5) -> (-50.6699, -12.5)
  line L397 (-50.6699, -12.5) -> (-51.8246, -14.5)
  line L398 (-51.8246, -14.5) -> (-50.6699, -16.5)
  line L399 (-50.6699, -16.5) -> (-48.3605, -16.5)
  line L400 (-48.3605, -16.5) -> (-47.2058, -14.5)
  line L401 (-47.2058, -14.5) -> (-48.3605, -12.5)
  line L402 (-44.0303, -15) -> (-46.3397, -15)
  line L403 (-46.3397, -15) -> (-47.4944, -17)
  line L404 (-47.4944, -17) -> (-46.3397, -19)
  line L405 (-46.3397, -19) -> (-44.0303, -19)
  line L406 (-44.0303, -19) -> (-42.8756, -17)
  line L407 (-42.8756, -17) -> (-44.0303, -15)
  line L408 (-39.7002, -17.5) -> (-42.0096, -17.5)
  line L409 (-42.0096, -17.5) -> (-43.1643, -19.5)
  line L410 (-43.1643, -19.5) -> (-42.0096, -21.5)
  line L411 (-42.0096, -21.5) -> (-39.7002, -21.5)
  line L412 (-39.7002, -21.5) -> (-38.5455, -19.5)
  line L413 (-38.5455, -19.5) -> (-39.7002, -17.5)
  line L414 (-35.3701, -20) -> (-37.6795, -20)
  line L415 (-37.6795, -20) -> (-38.8342, -22)
  line L416 (-38.8342, -22) -> (-37.6795, -24)
  line L417 (-37.6795, -24) -> (-35.3701, -24)
  line L418 (-35.3701, -24) -> (-34.2154, -22)
  line L419 (-34.2154, -22) -> (-35.3701, -20)
  line L420 (-31.04, -22.5) -> (-33.3494, -22.5)
  line L421 (-33.3494, -22.5) -> (-34.5041, -24.5)
  line L422 (-34.5041, -24.5) -> (-33.3494, -26.5)
  line L423 (-33.3494, -26.5) -> (-31.04, -26.5)
  line L424 (-31.04, -26.5) -> (-29.8853, -24.5)
  line L425 (-29.8853, -24.5) -> (-31.04, -22.5)
  line L426 (-26.7098, -25) -> (-29.0192, -25)
  line L427 (-29.0192, -25) -> (-30.1739, -27)
  line L428 (-30.1739, -27) -> (-29.0192, -29)
  line L429 (-29.0192, -29) -> (-26.7098, -29)
  line L430 (-26.7098, -29) -> (-25.5551, -27)
  line L431 (-25.5551, -27) -> (-26.7098, -25)
  line L432 (-22.3797, -27.5) -> (-24.6891, -27.5)
  line L433 (-24.6891, -27.5) -> (-25.8438, -29.5)
  line L434 (-25.8438, -29.5) -> (-24.6891, -31.5)
  line L435 (-24.6891, -31.5) -> (-22.3797, -31.5)
  line L436 (-22.3797, -31.5) -> (-21.225, -29.5)
  line L437 (-21.225, -29.5) -> (-22.3797, -27.5)
  line L438 (-18.0496, -30) -> (-20.359, -30)
  line L439 (-20.359, -30) -> (-21.5137, -32)
  line L440 (-21.5137, -32) -> (-20.359, -34)
  line L441 (-20.359, -34) -> (-18.0496, -34)
  line L442 (-18.0496, -34) -> (-16.8949, -32)
  line L443 (-16.8949, -32) -> (-18.0496, -30)
  line L444 (-13.7195, -32.5) -> (-16.0289, -32.5)
  line L445 (-16.0289, -32.5) -> (-17.1836, -34.5)
  line L446 (-17.1836, -34.5) -> (-16.0289, -36.5)
  line L447 (-16.0289, -36.5) -> (-13.7195, -36.5)
  line L448 (-13.7195, -36.5) -> (-12.5648, -34.5)
  line L449 (-12.5648, -34.5) -> (-13.7195, -32.5)
  line L450 (-9.3893, -35) -> (-11.6987, -35)
  line L451 (-11.6987, -35) -> (-12.8534, -37)
  line L452 (-12.8534, -37) -> (-11.6987, -39)
  line L453 (-11.6987, -39) -> (-9.3893, -39)
  line L454 (-9.3893, -39) -> (-8.2346, -37)
  line L455 (-8.2346, -37) -> (-9.3893, -35)
  line L456 (-5.0592, -37.5) -> (-7.3686, -37.5)
  line L457 (-7.3686, -37.5) -> (-8.2346, -39)
  line L458 (-4.1932, -39) -> (-5.0592, -37.5)
  line L459 (-52.6906, -15) -> (-55, -15)
  line L460 (-55, -15) -> (-56, -16.7321)
  line L461 (-56, -17.2679) -> (-55, -19)
  line L462 (-55, -19) -> (-52.6906, -19)
  line L463 (-52.6906, -19) -> (-51.5359, -17)
  line L464 (-51.5359, -17) -> (-52.6906, -15)
  line L465 (-48.3605, -17.5) -> (-50.6699, -17.5)
  line L466 (-50.6699, -17.5) -> (-51.8246, -19.5)
  line L467 (-51.8246, -19.5) -> (-50.6699, -21.5)
  line L468 (-50.6699, -21.5) -> (-48.3605, -21.5)
  line L469 (-48.3605, -21.5) -> (-47.2058, -19.5)
  line L470 (-47.2058, -19.5) -> (-48.3605, -17.5)
  line L471 (-44.0303, -20) -> (-46.3397, -20)
  line L472 (-46.3397, -20) -> (-47.4944, -22)
  line L473 (-47.4944, -22) -> (-46.3397, -24)
  line L474 (-46.3397, -24) -> (-44.0303, -24)
  line L475 (-44.0303, -24) -> (-42.8756, -22)
  line L476 (-42.8756, -22) -> (-44.0303, -20)
  line L477 (-39.7002, -22.5) -> (-42.0096, -22.5)
  line L478 (-42.0096, -22.5) -> (-43.1643, -24.5)
  line L479 (-43.1643, -24.5) -> (-42.0096, -26.5)
  line L480 (-42.0096, -26.5) -> (-39.7002, -26.5)
  line L481 (-39.7002, -26.5) -> (-38.5455, -24.5)
  line L482 (-38.5455, -24.5) -> (-39.7002, -22.5)
  line L483 (-35.3701, -25) -> (-37.6795, -25)
  line L484 (-37.6795, -25) -> (-38.8342, -27)
  line L485 (-38.8342, -27) -> (-37.6795, -29)
  line L486 (-37.6795, -29) -> (-35.3701, -29)
  line L487 (-35.3701, -29) -> (-34.2154, -27)
  line L488 (-34.2154, -27) -> (-35.3701, -25)
  line L489 (-31.04, -27.5) -> (-33.3494, -27.5)
  line L490 (-33.3494, -27.5) -> (-34.5041, -29.5)
  line L491 (-34.5041, -29.5) -> (-33.3494, -31.5)
  line L492 (-33.3494, -31.5) -> (-31.04, -31.5)
  line L493 (-31.04, -31.5) -> (-29.8853, -29.5)
  line L494 (-29.8853, -29.5) -> (-31.04, -27.5)
  line L495 (-26.7098, -30) -> (-29.0192, -30)
  line L496 (-29.0192, -30) -> (-30.1739, -32)
  line L497 (-30.1739, -32) -> (-29.0192, -34)
  line L498 (-29.0192, -34) -> (-26.7098, -34)
  line L499 (-26.7098, -34) -> (-25.5551, -32)
  line L500 (-25.5551, -32) -> (-26.7098, -30)
  line L501 (-22.3797, -32.5) -> (-24.6891, -32.5)
  line L502 (-24.6891, -32.5) -> (-25.8438, -34.5)
  line L503 (-25.8438, -34.5) -> (-24.6891, -36.5)
  line L504 (-24.6891, -36.5) -> (-22.3797, -36.5)
  line L505 (-22.3797, -36.5) -> (-21.225, -34.5)
  line L506 (-21.225, -34.5) -> (-22.3797, -32.5)
  line L507 (-18.0496, -35) -> (-20.359, -35)
  line L508 (-20.359, -35) -> (-21.5137, -37)
  line L509 (-21.5137, -37) -> (-20.359, -39)
  line L510 (-20.359, -39) -> (-18.0496, -39)
  line L511 (-18.0496, -39) -> (-16.8949, -37)
  line L512 (-16.8949, -37) -> (-18.0496, -35)
  line L513 (-13.7195, -37.5) -> (-16.0289, -37.5)
  line L514 (-16.0289, -37.5) -> (-16.8949, -39)
  line L515 (-12.8534, -39) -> (-13.7195, -37.5)
  line L516 (-52.6906, -20) -> (-55, -20)
  line L517 (-55, -20) -> (-56, -21.7321)
  line L518 (-56, -22.2679) -> (-55, -24)
  line L519 (-55, -24) -> (-52.6906, -24)
  line L520 (-52.6906, -24) -> (-51.5359, -22)
  line L521 (-51.5359, -22) -> (-52.6906, -20)
  line L522 (-48.3605, -22.5) -> (-50.6699, -22.5)
  line L523 (-50.6699, -22.5) -> (-51.8246, -24.5)
  line L524 (-51.8246, -24.5) -> (-50.6699, -26.5)
  line L525 (-50.6699, -26.5) -> (-48.3605, -26.5)
  line L526 (-48.3605, -26.5) -> (-47.2058, -24.5)
  line L527 (-47.2058, -24.5) -> (-48.3605, -22.5)
  line L528 (-44.0303, -25) -> (-46.3397, -25)
  line L529 (-46.3397, -25) -> (-47.4944, -27)
  line L530 (-47.4944, -27) -> (-46.3397, -29)
  line L531 (-46.3397, -29) -> (-44.0303, -29)
  line L532 (-44.0303, -29) -> (-42.8756, -27)
  line L533 (-42.8756, -27) -> (-44.0303, -25)
  line L534 (-39.7002, -27.5) -> (-42.0096, -27.5)
  line L535 (-42.0096, -27.5) -> (-43.1643, -29.5)
  line L536 (-43.1643, -29.5) -> (-42.0096, -31.5)
  line L537 (-42.0096, -31.5) -> (-39.7002, -31.5)
  line L538 (-39.7002, -31.5) -> (-38.5455, -29.5)
  line L539 (-38.5455, -29.5) -> (-39.7002, -27.5)
  line L540 (-35.3701, -30) -> (-37.6795, -30)
  line L541 (-37.6795, -30) -> (-38.8342, -32)
  line L542 (-38.8342, -32) -> (-37.6795, -34)
  line L543 (-37.6795, -34) -> (-35.3701, -34)
  line L544 (-35.3701, -34) -> (-34.2154, -32)
  line L545 (-34.2154, -32) -> (-35.3701, -30)
  line L546 (-31.04, -32.5) -> (-33.3494, -32.5)
  line L547 (-33.3494, -32.5) -> (-34.5041, -34.5)
  line L548 (-34.5041, -34.5) -> (-33.3494, -36.5)
  line L549 (-33.3494, -36.5) -> (-31.04, -36.5)
  line L550 (-31.04, -36.5) -> (-29.8853, -34.5)
  line L551 (-29.8853, -34.5) -> (-31.04, -32.5)
  line L552 (-26.7098, -35) -> (-29.0192, -35)
  line L553 (-29.0192, -35) -> (-30.1739, -37)
  line L554 (-30.1739, -37) -> (-29.0192, -39)
  line L555 (-29.0192, -39) -> (-26.7098, -39)
  line L556 (-26.7098, -39) -> (-25.5551, -37)
  line L557 (-25.5551, -37) -> (-26.7098, -35)
  line L558 (-22.3797, -37.5) -> (-24.6891, -37.5)
  line L559 (-24.6891, -37.5) -> (-25.5551, -39)
  line L560 (-21.5137, -39) -> (-22.3797, -37.5)
  line L561 (-52.6906, -25) -> (-55, -25)
  line L562 (-55, -25) -> (-56, -26.7321)
  line L563 (-56, -27.2679) -> (-55, -29)
  line L564 (-55, -29) -> (-52.6906, -29)
  line L565 (-52.6906, -29) -> (-51.5359, -27)
  line L566 (-51.5359, -27) -> (-52.6906, -25)
  line L567 (-48.3605, -27.5) -> (-50.6699, -27.5)
  line L568 (-50.6699, -27.5) -> (-51.8246, -29.5)
  line L569 (-51.8246, -29.5) -> (-50.6699, -31.5)
  line L570 (-50.6699, -31.5) -> (-48.3605, -31.5)
  line L571 (-48.3605, -31.5) -> (-47.2058, -29.5)
  line L572 (-47.2058, -29.5) -> (-48.3605, -27.5)
  line L573 (-44.0303, -30) -> (-46.3397, -30)
  line L574 (-46.3397, -30) -> (-47.4944, -32)
  line L575 (-47.4944, -32) -> (-46.3397, -34)
  line L576 (-46.3397, -34) -> (-44.0303, -34)
  line L577 (-44.0303, -34) -> (-42.8756, -32)
  line L578 (-42.8756, -32) -> (-44.0303, -30)
  line L579 (-39.7002, -32.5) -> (-42.0096, -32.5)
  line L580 (-42.0096, -32.5) -> (-43.1643, -34.5)
  line L581 (-43.1643, -34.5) -> (-42.0096, -36.5)
  line L582 (-42.0096, -36.5) -> (-39.7002, -36.5)
  line L583 (-39.7002, -36.5) -> (-38.5455, -34.5)
  line L584 (-38.5455, -34.5) -> (-39.7002, -32.5)
  line L585 (-35.3701, -35) -> (-37.6795, -35)
  line L586 (-37.6795, -35) -> (-38.8342, -37)
  line L587 (-38.8342, -37) -> (-37.6795, -39)
  line L588 (-37.6795, -39) -> (-35.3701, -39)
  line L589 (-35.3701, -39) -> (-34.2154, -37)
  line L590 (-34.2154, -37) -> (-35.3701, -35)
  line L591 (-31.04, -37.5) -> (-33.3494, -37.5)
  line L592 (-33.3494, -37.5) -> (-34.2154, -39)
  line L593 (-30.1739, -39) -> (-31.04, -37.5)
  line L594 (-52.6906, -30) -> (-55, -30)
  line L595 (-55, -30) -> (-56, -31.7321)
  line L596 (-56, -32.2679) -> (-55, -34)
  line L597 (-55, -34) -> (-52.6906, -34)
  line L598 (-52.6906, -34) -> (-51.5359, -32)
  line L599 (-51.5359, -32) -> (-52.6906, -30)
  line L600 (-48.3605, -32.5) -> (-50.6699, -32.5)
  line L601 (-50.6699, -32.5) -> (-51.8246, -34.5)
  line L602 (-51.8246, -34.5) -> (-50.6699, -36.5)
  line L603 (-50.6699, -36.5) -> (-48.3605, -36.5)
  line L604 (-48.3605, -36.5) -> (-47.2058, -34.5)
  line L605 (-47.2058, -34.5) -> (-48.3605, -32.5)
  line L606 (-44.0303, -35) -> (-46.3397, -35)
  line L607 (-46.3397, -35) -> (-47.4944, -37)
  line L608 (-47.4944, -37) -> (-46.3397, -39)
  line L609 (-46.3397, -39) -> (-44.0303, -39)
  line L610 (-44.0303, -39) -> (-42.8756, -37)
  line L611 (-42.8756, -37) -> (-44.0303, -35)
  line L612 (-39.7002, -37.5) -> (-42.0096, -37.5)
  line L613 (-42.0096, -37.5) -> (-42.8756, -39)
  line L614 (-38.8342, -39) -> (-39.7002, -37.5)
  line L615 (-52.6906, -35) -> (-55, -35)
  line L616 (-55, -35) -> (-56, -36.7321)
  line L617 (-56, -37.2679) -> (-55, -39)
  line L618 (-55, -39) -> (-52.6906, -39)
  line L619 (-52.6906, -39) -> (-51.5359, -37)
  line L620 (-51.5359, -37) -> (-52.6906, -35)
  line L621 (-48.3605, -37.5) -> (-50.6699, -37.5)
  line L622 (-50.6699, -37.5) -> (-51.5359, -39)
  line L623 (-47.4944, -39) -> (-48.3605, -37.5)
  line L624 (-56, -2.2679) -> (-56, -1.7321)
  line L625 (-55, 0) -> (-52.6906, 0)
  line L626 (-51.5359, 0) -> (-47.4944, 0)
  line L627 (-46.3397, 0) -> (-44.0303, 0)
  line L628 (-42.8756, 0) -> (-38.8342, 0)
  line L629 (-37.6795, 0) -> (-35.3701, 0)
  line L630 (-34.2154, 0) -> (-30.1739, 0)
  line L631 (-29.0192, 0) -> (-26.7098, 0)
  line L632 (-25.5551, 0) -> (-21.5137, 0)
  line L633 (-20.359, 0) -> (-18.0496, 0)
  line L634 (-16.8949, 0) -> (-12.8534, 0)
  line L635 (-11.6987, 0) -> (-9.3893, 0)
  line L636 (-8.2346, 0) -> (-4.1932, 0)
  line L637 (-3.0385, 0) -> (-0.7291, 0)
  line L638 (0, -1.2628) -> (0, -2.7372)
  line L639 (0, -6.2628) -> (0, -7.7372)
  line L640 (0, -11.2628) -> (0, -12.7372)
  line L641 (0, -16.2628) -> (0, -17.7372)
  line L642 (0, -21.2628) -> (0, -22.7372)
  line L643 (0, -26.2628) -> (0, -27.7372)
  line L644 (0, -31.2628) -> (0, -32.7372)
  line L645 (0, -36.2628) -> (0, -37.7372)
  line L646 (-0.7291, -39) -> (-3.0385, -39)
  line L647 (-4.1932, -39) -> (-8.2346, -39)
  line L648 (-9.3893, -39) -> (-11.6987, -39)
  line L649 (-12.8534, -39) -> (-16.8949, -39)
  line L650 (-18.0496, -39) -> (-20.359, -39)
  line L651 (-21.5137, -39) -> (-25.5551, -39)
  line L652 (-26.7098, -39) -> (-29.0192, -39)
  line L653 (-30.1739, -39) -> (-34.2154, -39)
  line L654 (-35.3701, -39) -> (-37.6795, -39)
  line L655 (-38.8342, -39) -> (-46.3397, -39)
  line L656 (-47.4944, -39) -> (-51.5359, -39)
  line L657 (-52.6906, -39) -> (-55, -39)
  line L658 (-56, -37.2679) -> (-56, -36.7321)
  line L659 (-56, -32.2679) -> (-56, -31.7321)
  line L660 (-56, -27.2679) -> (-56, -26.7321)
  line L661 (-56, -22.2679) -> (-56, -21.7321)
  line L662 (-56, -17.2679) -> (-56, -16.7321)
  line L663 (-56, -12.2679) -> (-56, -11.7321)
  line L664 (-56, -7.2679) -> (-56, -6.7321)
